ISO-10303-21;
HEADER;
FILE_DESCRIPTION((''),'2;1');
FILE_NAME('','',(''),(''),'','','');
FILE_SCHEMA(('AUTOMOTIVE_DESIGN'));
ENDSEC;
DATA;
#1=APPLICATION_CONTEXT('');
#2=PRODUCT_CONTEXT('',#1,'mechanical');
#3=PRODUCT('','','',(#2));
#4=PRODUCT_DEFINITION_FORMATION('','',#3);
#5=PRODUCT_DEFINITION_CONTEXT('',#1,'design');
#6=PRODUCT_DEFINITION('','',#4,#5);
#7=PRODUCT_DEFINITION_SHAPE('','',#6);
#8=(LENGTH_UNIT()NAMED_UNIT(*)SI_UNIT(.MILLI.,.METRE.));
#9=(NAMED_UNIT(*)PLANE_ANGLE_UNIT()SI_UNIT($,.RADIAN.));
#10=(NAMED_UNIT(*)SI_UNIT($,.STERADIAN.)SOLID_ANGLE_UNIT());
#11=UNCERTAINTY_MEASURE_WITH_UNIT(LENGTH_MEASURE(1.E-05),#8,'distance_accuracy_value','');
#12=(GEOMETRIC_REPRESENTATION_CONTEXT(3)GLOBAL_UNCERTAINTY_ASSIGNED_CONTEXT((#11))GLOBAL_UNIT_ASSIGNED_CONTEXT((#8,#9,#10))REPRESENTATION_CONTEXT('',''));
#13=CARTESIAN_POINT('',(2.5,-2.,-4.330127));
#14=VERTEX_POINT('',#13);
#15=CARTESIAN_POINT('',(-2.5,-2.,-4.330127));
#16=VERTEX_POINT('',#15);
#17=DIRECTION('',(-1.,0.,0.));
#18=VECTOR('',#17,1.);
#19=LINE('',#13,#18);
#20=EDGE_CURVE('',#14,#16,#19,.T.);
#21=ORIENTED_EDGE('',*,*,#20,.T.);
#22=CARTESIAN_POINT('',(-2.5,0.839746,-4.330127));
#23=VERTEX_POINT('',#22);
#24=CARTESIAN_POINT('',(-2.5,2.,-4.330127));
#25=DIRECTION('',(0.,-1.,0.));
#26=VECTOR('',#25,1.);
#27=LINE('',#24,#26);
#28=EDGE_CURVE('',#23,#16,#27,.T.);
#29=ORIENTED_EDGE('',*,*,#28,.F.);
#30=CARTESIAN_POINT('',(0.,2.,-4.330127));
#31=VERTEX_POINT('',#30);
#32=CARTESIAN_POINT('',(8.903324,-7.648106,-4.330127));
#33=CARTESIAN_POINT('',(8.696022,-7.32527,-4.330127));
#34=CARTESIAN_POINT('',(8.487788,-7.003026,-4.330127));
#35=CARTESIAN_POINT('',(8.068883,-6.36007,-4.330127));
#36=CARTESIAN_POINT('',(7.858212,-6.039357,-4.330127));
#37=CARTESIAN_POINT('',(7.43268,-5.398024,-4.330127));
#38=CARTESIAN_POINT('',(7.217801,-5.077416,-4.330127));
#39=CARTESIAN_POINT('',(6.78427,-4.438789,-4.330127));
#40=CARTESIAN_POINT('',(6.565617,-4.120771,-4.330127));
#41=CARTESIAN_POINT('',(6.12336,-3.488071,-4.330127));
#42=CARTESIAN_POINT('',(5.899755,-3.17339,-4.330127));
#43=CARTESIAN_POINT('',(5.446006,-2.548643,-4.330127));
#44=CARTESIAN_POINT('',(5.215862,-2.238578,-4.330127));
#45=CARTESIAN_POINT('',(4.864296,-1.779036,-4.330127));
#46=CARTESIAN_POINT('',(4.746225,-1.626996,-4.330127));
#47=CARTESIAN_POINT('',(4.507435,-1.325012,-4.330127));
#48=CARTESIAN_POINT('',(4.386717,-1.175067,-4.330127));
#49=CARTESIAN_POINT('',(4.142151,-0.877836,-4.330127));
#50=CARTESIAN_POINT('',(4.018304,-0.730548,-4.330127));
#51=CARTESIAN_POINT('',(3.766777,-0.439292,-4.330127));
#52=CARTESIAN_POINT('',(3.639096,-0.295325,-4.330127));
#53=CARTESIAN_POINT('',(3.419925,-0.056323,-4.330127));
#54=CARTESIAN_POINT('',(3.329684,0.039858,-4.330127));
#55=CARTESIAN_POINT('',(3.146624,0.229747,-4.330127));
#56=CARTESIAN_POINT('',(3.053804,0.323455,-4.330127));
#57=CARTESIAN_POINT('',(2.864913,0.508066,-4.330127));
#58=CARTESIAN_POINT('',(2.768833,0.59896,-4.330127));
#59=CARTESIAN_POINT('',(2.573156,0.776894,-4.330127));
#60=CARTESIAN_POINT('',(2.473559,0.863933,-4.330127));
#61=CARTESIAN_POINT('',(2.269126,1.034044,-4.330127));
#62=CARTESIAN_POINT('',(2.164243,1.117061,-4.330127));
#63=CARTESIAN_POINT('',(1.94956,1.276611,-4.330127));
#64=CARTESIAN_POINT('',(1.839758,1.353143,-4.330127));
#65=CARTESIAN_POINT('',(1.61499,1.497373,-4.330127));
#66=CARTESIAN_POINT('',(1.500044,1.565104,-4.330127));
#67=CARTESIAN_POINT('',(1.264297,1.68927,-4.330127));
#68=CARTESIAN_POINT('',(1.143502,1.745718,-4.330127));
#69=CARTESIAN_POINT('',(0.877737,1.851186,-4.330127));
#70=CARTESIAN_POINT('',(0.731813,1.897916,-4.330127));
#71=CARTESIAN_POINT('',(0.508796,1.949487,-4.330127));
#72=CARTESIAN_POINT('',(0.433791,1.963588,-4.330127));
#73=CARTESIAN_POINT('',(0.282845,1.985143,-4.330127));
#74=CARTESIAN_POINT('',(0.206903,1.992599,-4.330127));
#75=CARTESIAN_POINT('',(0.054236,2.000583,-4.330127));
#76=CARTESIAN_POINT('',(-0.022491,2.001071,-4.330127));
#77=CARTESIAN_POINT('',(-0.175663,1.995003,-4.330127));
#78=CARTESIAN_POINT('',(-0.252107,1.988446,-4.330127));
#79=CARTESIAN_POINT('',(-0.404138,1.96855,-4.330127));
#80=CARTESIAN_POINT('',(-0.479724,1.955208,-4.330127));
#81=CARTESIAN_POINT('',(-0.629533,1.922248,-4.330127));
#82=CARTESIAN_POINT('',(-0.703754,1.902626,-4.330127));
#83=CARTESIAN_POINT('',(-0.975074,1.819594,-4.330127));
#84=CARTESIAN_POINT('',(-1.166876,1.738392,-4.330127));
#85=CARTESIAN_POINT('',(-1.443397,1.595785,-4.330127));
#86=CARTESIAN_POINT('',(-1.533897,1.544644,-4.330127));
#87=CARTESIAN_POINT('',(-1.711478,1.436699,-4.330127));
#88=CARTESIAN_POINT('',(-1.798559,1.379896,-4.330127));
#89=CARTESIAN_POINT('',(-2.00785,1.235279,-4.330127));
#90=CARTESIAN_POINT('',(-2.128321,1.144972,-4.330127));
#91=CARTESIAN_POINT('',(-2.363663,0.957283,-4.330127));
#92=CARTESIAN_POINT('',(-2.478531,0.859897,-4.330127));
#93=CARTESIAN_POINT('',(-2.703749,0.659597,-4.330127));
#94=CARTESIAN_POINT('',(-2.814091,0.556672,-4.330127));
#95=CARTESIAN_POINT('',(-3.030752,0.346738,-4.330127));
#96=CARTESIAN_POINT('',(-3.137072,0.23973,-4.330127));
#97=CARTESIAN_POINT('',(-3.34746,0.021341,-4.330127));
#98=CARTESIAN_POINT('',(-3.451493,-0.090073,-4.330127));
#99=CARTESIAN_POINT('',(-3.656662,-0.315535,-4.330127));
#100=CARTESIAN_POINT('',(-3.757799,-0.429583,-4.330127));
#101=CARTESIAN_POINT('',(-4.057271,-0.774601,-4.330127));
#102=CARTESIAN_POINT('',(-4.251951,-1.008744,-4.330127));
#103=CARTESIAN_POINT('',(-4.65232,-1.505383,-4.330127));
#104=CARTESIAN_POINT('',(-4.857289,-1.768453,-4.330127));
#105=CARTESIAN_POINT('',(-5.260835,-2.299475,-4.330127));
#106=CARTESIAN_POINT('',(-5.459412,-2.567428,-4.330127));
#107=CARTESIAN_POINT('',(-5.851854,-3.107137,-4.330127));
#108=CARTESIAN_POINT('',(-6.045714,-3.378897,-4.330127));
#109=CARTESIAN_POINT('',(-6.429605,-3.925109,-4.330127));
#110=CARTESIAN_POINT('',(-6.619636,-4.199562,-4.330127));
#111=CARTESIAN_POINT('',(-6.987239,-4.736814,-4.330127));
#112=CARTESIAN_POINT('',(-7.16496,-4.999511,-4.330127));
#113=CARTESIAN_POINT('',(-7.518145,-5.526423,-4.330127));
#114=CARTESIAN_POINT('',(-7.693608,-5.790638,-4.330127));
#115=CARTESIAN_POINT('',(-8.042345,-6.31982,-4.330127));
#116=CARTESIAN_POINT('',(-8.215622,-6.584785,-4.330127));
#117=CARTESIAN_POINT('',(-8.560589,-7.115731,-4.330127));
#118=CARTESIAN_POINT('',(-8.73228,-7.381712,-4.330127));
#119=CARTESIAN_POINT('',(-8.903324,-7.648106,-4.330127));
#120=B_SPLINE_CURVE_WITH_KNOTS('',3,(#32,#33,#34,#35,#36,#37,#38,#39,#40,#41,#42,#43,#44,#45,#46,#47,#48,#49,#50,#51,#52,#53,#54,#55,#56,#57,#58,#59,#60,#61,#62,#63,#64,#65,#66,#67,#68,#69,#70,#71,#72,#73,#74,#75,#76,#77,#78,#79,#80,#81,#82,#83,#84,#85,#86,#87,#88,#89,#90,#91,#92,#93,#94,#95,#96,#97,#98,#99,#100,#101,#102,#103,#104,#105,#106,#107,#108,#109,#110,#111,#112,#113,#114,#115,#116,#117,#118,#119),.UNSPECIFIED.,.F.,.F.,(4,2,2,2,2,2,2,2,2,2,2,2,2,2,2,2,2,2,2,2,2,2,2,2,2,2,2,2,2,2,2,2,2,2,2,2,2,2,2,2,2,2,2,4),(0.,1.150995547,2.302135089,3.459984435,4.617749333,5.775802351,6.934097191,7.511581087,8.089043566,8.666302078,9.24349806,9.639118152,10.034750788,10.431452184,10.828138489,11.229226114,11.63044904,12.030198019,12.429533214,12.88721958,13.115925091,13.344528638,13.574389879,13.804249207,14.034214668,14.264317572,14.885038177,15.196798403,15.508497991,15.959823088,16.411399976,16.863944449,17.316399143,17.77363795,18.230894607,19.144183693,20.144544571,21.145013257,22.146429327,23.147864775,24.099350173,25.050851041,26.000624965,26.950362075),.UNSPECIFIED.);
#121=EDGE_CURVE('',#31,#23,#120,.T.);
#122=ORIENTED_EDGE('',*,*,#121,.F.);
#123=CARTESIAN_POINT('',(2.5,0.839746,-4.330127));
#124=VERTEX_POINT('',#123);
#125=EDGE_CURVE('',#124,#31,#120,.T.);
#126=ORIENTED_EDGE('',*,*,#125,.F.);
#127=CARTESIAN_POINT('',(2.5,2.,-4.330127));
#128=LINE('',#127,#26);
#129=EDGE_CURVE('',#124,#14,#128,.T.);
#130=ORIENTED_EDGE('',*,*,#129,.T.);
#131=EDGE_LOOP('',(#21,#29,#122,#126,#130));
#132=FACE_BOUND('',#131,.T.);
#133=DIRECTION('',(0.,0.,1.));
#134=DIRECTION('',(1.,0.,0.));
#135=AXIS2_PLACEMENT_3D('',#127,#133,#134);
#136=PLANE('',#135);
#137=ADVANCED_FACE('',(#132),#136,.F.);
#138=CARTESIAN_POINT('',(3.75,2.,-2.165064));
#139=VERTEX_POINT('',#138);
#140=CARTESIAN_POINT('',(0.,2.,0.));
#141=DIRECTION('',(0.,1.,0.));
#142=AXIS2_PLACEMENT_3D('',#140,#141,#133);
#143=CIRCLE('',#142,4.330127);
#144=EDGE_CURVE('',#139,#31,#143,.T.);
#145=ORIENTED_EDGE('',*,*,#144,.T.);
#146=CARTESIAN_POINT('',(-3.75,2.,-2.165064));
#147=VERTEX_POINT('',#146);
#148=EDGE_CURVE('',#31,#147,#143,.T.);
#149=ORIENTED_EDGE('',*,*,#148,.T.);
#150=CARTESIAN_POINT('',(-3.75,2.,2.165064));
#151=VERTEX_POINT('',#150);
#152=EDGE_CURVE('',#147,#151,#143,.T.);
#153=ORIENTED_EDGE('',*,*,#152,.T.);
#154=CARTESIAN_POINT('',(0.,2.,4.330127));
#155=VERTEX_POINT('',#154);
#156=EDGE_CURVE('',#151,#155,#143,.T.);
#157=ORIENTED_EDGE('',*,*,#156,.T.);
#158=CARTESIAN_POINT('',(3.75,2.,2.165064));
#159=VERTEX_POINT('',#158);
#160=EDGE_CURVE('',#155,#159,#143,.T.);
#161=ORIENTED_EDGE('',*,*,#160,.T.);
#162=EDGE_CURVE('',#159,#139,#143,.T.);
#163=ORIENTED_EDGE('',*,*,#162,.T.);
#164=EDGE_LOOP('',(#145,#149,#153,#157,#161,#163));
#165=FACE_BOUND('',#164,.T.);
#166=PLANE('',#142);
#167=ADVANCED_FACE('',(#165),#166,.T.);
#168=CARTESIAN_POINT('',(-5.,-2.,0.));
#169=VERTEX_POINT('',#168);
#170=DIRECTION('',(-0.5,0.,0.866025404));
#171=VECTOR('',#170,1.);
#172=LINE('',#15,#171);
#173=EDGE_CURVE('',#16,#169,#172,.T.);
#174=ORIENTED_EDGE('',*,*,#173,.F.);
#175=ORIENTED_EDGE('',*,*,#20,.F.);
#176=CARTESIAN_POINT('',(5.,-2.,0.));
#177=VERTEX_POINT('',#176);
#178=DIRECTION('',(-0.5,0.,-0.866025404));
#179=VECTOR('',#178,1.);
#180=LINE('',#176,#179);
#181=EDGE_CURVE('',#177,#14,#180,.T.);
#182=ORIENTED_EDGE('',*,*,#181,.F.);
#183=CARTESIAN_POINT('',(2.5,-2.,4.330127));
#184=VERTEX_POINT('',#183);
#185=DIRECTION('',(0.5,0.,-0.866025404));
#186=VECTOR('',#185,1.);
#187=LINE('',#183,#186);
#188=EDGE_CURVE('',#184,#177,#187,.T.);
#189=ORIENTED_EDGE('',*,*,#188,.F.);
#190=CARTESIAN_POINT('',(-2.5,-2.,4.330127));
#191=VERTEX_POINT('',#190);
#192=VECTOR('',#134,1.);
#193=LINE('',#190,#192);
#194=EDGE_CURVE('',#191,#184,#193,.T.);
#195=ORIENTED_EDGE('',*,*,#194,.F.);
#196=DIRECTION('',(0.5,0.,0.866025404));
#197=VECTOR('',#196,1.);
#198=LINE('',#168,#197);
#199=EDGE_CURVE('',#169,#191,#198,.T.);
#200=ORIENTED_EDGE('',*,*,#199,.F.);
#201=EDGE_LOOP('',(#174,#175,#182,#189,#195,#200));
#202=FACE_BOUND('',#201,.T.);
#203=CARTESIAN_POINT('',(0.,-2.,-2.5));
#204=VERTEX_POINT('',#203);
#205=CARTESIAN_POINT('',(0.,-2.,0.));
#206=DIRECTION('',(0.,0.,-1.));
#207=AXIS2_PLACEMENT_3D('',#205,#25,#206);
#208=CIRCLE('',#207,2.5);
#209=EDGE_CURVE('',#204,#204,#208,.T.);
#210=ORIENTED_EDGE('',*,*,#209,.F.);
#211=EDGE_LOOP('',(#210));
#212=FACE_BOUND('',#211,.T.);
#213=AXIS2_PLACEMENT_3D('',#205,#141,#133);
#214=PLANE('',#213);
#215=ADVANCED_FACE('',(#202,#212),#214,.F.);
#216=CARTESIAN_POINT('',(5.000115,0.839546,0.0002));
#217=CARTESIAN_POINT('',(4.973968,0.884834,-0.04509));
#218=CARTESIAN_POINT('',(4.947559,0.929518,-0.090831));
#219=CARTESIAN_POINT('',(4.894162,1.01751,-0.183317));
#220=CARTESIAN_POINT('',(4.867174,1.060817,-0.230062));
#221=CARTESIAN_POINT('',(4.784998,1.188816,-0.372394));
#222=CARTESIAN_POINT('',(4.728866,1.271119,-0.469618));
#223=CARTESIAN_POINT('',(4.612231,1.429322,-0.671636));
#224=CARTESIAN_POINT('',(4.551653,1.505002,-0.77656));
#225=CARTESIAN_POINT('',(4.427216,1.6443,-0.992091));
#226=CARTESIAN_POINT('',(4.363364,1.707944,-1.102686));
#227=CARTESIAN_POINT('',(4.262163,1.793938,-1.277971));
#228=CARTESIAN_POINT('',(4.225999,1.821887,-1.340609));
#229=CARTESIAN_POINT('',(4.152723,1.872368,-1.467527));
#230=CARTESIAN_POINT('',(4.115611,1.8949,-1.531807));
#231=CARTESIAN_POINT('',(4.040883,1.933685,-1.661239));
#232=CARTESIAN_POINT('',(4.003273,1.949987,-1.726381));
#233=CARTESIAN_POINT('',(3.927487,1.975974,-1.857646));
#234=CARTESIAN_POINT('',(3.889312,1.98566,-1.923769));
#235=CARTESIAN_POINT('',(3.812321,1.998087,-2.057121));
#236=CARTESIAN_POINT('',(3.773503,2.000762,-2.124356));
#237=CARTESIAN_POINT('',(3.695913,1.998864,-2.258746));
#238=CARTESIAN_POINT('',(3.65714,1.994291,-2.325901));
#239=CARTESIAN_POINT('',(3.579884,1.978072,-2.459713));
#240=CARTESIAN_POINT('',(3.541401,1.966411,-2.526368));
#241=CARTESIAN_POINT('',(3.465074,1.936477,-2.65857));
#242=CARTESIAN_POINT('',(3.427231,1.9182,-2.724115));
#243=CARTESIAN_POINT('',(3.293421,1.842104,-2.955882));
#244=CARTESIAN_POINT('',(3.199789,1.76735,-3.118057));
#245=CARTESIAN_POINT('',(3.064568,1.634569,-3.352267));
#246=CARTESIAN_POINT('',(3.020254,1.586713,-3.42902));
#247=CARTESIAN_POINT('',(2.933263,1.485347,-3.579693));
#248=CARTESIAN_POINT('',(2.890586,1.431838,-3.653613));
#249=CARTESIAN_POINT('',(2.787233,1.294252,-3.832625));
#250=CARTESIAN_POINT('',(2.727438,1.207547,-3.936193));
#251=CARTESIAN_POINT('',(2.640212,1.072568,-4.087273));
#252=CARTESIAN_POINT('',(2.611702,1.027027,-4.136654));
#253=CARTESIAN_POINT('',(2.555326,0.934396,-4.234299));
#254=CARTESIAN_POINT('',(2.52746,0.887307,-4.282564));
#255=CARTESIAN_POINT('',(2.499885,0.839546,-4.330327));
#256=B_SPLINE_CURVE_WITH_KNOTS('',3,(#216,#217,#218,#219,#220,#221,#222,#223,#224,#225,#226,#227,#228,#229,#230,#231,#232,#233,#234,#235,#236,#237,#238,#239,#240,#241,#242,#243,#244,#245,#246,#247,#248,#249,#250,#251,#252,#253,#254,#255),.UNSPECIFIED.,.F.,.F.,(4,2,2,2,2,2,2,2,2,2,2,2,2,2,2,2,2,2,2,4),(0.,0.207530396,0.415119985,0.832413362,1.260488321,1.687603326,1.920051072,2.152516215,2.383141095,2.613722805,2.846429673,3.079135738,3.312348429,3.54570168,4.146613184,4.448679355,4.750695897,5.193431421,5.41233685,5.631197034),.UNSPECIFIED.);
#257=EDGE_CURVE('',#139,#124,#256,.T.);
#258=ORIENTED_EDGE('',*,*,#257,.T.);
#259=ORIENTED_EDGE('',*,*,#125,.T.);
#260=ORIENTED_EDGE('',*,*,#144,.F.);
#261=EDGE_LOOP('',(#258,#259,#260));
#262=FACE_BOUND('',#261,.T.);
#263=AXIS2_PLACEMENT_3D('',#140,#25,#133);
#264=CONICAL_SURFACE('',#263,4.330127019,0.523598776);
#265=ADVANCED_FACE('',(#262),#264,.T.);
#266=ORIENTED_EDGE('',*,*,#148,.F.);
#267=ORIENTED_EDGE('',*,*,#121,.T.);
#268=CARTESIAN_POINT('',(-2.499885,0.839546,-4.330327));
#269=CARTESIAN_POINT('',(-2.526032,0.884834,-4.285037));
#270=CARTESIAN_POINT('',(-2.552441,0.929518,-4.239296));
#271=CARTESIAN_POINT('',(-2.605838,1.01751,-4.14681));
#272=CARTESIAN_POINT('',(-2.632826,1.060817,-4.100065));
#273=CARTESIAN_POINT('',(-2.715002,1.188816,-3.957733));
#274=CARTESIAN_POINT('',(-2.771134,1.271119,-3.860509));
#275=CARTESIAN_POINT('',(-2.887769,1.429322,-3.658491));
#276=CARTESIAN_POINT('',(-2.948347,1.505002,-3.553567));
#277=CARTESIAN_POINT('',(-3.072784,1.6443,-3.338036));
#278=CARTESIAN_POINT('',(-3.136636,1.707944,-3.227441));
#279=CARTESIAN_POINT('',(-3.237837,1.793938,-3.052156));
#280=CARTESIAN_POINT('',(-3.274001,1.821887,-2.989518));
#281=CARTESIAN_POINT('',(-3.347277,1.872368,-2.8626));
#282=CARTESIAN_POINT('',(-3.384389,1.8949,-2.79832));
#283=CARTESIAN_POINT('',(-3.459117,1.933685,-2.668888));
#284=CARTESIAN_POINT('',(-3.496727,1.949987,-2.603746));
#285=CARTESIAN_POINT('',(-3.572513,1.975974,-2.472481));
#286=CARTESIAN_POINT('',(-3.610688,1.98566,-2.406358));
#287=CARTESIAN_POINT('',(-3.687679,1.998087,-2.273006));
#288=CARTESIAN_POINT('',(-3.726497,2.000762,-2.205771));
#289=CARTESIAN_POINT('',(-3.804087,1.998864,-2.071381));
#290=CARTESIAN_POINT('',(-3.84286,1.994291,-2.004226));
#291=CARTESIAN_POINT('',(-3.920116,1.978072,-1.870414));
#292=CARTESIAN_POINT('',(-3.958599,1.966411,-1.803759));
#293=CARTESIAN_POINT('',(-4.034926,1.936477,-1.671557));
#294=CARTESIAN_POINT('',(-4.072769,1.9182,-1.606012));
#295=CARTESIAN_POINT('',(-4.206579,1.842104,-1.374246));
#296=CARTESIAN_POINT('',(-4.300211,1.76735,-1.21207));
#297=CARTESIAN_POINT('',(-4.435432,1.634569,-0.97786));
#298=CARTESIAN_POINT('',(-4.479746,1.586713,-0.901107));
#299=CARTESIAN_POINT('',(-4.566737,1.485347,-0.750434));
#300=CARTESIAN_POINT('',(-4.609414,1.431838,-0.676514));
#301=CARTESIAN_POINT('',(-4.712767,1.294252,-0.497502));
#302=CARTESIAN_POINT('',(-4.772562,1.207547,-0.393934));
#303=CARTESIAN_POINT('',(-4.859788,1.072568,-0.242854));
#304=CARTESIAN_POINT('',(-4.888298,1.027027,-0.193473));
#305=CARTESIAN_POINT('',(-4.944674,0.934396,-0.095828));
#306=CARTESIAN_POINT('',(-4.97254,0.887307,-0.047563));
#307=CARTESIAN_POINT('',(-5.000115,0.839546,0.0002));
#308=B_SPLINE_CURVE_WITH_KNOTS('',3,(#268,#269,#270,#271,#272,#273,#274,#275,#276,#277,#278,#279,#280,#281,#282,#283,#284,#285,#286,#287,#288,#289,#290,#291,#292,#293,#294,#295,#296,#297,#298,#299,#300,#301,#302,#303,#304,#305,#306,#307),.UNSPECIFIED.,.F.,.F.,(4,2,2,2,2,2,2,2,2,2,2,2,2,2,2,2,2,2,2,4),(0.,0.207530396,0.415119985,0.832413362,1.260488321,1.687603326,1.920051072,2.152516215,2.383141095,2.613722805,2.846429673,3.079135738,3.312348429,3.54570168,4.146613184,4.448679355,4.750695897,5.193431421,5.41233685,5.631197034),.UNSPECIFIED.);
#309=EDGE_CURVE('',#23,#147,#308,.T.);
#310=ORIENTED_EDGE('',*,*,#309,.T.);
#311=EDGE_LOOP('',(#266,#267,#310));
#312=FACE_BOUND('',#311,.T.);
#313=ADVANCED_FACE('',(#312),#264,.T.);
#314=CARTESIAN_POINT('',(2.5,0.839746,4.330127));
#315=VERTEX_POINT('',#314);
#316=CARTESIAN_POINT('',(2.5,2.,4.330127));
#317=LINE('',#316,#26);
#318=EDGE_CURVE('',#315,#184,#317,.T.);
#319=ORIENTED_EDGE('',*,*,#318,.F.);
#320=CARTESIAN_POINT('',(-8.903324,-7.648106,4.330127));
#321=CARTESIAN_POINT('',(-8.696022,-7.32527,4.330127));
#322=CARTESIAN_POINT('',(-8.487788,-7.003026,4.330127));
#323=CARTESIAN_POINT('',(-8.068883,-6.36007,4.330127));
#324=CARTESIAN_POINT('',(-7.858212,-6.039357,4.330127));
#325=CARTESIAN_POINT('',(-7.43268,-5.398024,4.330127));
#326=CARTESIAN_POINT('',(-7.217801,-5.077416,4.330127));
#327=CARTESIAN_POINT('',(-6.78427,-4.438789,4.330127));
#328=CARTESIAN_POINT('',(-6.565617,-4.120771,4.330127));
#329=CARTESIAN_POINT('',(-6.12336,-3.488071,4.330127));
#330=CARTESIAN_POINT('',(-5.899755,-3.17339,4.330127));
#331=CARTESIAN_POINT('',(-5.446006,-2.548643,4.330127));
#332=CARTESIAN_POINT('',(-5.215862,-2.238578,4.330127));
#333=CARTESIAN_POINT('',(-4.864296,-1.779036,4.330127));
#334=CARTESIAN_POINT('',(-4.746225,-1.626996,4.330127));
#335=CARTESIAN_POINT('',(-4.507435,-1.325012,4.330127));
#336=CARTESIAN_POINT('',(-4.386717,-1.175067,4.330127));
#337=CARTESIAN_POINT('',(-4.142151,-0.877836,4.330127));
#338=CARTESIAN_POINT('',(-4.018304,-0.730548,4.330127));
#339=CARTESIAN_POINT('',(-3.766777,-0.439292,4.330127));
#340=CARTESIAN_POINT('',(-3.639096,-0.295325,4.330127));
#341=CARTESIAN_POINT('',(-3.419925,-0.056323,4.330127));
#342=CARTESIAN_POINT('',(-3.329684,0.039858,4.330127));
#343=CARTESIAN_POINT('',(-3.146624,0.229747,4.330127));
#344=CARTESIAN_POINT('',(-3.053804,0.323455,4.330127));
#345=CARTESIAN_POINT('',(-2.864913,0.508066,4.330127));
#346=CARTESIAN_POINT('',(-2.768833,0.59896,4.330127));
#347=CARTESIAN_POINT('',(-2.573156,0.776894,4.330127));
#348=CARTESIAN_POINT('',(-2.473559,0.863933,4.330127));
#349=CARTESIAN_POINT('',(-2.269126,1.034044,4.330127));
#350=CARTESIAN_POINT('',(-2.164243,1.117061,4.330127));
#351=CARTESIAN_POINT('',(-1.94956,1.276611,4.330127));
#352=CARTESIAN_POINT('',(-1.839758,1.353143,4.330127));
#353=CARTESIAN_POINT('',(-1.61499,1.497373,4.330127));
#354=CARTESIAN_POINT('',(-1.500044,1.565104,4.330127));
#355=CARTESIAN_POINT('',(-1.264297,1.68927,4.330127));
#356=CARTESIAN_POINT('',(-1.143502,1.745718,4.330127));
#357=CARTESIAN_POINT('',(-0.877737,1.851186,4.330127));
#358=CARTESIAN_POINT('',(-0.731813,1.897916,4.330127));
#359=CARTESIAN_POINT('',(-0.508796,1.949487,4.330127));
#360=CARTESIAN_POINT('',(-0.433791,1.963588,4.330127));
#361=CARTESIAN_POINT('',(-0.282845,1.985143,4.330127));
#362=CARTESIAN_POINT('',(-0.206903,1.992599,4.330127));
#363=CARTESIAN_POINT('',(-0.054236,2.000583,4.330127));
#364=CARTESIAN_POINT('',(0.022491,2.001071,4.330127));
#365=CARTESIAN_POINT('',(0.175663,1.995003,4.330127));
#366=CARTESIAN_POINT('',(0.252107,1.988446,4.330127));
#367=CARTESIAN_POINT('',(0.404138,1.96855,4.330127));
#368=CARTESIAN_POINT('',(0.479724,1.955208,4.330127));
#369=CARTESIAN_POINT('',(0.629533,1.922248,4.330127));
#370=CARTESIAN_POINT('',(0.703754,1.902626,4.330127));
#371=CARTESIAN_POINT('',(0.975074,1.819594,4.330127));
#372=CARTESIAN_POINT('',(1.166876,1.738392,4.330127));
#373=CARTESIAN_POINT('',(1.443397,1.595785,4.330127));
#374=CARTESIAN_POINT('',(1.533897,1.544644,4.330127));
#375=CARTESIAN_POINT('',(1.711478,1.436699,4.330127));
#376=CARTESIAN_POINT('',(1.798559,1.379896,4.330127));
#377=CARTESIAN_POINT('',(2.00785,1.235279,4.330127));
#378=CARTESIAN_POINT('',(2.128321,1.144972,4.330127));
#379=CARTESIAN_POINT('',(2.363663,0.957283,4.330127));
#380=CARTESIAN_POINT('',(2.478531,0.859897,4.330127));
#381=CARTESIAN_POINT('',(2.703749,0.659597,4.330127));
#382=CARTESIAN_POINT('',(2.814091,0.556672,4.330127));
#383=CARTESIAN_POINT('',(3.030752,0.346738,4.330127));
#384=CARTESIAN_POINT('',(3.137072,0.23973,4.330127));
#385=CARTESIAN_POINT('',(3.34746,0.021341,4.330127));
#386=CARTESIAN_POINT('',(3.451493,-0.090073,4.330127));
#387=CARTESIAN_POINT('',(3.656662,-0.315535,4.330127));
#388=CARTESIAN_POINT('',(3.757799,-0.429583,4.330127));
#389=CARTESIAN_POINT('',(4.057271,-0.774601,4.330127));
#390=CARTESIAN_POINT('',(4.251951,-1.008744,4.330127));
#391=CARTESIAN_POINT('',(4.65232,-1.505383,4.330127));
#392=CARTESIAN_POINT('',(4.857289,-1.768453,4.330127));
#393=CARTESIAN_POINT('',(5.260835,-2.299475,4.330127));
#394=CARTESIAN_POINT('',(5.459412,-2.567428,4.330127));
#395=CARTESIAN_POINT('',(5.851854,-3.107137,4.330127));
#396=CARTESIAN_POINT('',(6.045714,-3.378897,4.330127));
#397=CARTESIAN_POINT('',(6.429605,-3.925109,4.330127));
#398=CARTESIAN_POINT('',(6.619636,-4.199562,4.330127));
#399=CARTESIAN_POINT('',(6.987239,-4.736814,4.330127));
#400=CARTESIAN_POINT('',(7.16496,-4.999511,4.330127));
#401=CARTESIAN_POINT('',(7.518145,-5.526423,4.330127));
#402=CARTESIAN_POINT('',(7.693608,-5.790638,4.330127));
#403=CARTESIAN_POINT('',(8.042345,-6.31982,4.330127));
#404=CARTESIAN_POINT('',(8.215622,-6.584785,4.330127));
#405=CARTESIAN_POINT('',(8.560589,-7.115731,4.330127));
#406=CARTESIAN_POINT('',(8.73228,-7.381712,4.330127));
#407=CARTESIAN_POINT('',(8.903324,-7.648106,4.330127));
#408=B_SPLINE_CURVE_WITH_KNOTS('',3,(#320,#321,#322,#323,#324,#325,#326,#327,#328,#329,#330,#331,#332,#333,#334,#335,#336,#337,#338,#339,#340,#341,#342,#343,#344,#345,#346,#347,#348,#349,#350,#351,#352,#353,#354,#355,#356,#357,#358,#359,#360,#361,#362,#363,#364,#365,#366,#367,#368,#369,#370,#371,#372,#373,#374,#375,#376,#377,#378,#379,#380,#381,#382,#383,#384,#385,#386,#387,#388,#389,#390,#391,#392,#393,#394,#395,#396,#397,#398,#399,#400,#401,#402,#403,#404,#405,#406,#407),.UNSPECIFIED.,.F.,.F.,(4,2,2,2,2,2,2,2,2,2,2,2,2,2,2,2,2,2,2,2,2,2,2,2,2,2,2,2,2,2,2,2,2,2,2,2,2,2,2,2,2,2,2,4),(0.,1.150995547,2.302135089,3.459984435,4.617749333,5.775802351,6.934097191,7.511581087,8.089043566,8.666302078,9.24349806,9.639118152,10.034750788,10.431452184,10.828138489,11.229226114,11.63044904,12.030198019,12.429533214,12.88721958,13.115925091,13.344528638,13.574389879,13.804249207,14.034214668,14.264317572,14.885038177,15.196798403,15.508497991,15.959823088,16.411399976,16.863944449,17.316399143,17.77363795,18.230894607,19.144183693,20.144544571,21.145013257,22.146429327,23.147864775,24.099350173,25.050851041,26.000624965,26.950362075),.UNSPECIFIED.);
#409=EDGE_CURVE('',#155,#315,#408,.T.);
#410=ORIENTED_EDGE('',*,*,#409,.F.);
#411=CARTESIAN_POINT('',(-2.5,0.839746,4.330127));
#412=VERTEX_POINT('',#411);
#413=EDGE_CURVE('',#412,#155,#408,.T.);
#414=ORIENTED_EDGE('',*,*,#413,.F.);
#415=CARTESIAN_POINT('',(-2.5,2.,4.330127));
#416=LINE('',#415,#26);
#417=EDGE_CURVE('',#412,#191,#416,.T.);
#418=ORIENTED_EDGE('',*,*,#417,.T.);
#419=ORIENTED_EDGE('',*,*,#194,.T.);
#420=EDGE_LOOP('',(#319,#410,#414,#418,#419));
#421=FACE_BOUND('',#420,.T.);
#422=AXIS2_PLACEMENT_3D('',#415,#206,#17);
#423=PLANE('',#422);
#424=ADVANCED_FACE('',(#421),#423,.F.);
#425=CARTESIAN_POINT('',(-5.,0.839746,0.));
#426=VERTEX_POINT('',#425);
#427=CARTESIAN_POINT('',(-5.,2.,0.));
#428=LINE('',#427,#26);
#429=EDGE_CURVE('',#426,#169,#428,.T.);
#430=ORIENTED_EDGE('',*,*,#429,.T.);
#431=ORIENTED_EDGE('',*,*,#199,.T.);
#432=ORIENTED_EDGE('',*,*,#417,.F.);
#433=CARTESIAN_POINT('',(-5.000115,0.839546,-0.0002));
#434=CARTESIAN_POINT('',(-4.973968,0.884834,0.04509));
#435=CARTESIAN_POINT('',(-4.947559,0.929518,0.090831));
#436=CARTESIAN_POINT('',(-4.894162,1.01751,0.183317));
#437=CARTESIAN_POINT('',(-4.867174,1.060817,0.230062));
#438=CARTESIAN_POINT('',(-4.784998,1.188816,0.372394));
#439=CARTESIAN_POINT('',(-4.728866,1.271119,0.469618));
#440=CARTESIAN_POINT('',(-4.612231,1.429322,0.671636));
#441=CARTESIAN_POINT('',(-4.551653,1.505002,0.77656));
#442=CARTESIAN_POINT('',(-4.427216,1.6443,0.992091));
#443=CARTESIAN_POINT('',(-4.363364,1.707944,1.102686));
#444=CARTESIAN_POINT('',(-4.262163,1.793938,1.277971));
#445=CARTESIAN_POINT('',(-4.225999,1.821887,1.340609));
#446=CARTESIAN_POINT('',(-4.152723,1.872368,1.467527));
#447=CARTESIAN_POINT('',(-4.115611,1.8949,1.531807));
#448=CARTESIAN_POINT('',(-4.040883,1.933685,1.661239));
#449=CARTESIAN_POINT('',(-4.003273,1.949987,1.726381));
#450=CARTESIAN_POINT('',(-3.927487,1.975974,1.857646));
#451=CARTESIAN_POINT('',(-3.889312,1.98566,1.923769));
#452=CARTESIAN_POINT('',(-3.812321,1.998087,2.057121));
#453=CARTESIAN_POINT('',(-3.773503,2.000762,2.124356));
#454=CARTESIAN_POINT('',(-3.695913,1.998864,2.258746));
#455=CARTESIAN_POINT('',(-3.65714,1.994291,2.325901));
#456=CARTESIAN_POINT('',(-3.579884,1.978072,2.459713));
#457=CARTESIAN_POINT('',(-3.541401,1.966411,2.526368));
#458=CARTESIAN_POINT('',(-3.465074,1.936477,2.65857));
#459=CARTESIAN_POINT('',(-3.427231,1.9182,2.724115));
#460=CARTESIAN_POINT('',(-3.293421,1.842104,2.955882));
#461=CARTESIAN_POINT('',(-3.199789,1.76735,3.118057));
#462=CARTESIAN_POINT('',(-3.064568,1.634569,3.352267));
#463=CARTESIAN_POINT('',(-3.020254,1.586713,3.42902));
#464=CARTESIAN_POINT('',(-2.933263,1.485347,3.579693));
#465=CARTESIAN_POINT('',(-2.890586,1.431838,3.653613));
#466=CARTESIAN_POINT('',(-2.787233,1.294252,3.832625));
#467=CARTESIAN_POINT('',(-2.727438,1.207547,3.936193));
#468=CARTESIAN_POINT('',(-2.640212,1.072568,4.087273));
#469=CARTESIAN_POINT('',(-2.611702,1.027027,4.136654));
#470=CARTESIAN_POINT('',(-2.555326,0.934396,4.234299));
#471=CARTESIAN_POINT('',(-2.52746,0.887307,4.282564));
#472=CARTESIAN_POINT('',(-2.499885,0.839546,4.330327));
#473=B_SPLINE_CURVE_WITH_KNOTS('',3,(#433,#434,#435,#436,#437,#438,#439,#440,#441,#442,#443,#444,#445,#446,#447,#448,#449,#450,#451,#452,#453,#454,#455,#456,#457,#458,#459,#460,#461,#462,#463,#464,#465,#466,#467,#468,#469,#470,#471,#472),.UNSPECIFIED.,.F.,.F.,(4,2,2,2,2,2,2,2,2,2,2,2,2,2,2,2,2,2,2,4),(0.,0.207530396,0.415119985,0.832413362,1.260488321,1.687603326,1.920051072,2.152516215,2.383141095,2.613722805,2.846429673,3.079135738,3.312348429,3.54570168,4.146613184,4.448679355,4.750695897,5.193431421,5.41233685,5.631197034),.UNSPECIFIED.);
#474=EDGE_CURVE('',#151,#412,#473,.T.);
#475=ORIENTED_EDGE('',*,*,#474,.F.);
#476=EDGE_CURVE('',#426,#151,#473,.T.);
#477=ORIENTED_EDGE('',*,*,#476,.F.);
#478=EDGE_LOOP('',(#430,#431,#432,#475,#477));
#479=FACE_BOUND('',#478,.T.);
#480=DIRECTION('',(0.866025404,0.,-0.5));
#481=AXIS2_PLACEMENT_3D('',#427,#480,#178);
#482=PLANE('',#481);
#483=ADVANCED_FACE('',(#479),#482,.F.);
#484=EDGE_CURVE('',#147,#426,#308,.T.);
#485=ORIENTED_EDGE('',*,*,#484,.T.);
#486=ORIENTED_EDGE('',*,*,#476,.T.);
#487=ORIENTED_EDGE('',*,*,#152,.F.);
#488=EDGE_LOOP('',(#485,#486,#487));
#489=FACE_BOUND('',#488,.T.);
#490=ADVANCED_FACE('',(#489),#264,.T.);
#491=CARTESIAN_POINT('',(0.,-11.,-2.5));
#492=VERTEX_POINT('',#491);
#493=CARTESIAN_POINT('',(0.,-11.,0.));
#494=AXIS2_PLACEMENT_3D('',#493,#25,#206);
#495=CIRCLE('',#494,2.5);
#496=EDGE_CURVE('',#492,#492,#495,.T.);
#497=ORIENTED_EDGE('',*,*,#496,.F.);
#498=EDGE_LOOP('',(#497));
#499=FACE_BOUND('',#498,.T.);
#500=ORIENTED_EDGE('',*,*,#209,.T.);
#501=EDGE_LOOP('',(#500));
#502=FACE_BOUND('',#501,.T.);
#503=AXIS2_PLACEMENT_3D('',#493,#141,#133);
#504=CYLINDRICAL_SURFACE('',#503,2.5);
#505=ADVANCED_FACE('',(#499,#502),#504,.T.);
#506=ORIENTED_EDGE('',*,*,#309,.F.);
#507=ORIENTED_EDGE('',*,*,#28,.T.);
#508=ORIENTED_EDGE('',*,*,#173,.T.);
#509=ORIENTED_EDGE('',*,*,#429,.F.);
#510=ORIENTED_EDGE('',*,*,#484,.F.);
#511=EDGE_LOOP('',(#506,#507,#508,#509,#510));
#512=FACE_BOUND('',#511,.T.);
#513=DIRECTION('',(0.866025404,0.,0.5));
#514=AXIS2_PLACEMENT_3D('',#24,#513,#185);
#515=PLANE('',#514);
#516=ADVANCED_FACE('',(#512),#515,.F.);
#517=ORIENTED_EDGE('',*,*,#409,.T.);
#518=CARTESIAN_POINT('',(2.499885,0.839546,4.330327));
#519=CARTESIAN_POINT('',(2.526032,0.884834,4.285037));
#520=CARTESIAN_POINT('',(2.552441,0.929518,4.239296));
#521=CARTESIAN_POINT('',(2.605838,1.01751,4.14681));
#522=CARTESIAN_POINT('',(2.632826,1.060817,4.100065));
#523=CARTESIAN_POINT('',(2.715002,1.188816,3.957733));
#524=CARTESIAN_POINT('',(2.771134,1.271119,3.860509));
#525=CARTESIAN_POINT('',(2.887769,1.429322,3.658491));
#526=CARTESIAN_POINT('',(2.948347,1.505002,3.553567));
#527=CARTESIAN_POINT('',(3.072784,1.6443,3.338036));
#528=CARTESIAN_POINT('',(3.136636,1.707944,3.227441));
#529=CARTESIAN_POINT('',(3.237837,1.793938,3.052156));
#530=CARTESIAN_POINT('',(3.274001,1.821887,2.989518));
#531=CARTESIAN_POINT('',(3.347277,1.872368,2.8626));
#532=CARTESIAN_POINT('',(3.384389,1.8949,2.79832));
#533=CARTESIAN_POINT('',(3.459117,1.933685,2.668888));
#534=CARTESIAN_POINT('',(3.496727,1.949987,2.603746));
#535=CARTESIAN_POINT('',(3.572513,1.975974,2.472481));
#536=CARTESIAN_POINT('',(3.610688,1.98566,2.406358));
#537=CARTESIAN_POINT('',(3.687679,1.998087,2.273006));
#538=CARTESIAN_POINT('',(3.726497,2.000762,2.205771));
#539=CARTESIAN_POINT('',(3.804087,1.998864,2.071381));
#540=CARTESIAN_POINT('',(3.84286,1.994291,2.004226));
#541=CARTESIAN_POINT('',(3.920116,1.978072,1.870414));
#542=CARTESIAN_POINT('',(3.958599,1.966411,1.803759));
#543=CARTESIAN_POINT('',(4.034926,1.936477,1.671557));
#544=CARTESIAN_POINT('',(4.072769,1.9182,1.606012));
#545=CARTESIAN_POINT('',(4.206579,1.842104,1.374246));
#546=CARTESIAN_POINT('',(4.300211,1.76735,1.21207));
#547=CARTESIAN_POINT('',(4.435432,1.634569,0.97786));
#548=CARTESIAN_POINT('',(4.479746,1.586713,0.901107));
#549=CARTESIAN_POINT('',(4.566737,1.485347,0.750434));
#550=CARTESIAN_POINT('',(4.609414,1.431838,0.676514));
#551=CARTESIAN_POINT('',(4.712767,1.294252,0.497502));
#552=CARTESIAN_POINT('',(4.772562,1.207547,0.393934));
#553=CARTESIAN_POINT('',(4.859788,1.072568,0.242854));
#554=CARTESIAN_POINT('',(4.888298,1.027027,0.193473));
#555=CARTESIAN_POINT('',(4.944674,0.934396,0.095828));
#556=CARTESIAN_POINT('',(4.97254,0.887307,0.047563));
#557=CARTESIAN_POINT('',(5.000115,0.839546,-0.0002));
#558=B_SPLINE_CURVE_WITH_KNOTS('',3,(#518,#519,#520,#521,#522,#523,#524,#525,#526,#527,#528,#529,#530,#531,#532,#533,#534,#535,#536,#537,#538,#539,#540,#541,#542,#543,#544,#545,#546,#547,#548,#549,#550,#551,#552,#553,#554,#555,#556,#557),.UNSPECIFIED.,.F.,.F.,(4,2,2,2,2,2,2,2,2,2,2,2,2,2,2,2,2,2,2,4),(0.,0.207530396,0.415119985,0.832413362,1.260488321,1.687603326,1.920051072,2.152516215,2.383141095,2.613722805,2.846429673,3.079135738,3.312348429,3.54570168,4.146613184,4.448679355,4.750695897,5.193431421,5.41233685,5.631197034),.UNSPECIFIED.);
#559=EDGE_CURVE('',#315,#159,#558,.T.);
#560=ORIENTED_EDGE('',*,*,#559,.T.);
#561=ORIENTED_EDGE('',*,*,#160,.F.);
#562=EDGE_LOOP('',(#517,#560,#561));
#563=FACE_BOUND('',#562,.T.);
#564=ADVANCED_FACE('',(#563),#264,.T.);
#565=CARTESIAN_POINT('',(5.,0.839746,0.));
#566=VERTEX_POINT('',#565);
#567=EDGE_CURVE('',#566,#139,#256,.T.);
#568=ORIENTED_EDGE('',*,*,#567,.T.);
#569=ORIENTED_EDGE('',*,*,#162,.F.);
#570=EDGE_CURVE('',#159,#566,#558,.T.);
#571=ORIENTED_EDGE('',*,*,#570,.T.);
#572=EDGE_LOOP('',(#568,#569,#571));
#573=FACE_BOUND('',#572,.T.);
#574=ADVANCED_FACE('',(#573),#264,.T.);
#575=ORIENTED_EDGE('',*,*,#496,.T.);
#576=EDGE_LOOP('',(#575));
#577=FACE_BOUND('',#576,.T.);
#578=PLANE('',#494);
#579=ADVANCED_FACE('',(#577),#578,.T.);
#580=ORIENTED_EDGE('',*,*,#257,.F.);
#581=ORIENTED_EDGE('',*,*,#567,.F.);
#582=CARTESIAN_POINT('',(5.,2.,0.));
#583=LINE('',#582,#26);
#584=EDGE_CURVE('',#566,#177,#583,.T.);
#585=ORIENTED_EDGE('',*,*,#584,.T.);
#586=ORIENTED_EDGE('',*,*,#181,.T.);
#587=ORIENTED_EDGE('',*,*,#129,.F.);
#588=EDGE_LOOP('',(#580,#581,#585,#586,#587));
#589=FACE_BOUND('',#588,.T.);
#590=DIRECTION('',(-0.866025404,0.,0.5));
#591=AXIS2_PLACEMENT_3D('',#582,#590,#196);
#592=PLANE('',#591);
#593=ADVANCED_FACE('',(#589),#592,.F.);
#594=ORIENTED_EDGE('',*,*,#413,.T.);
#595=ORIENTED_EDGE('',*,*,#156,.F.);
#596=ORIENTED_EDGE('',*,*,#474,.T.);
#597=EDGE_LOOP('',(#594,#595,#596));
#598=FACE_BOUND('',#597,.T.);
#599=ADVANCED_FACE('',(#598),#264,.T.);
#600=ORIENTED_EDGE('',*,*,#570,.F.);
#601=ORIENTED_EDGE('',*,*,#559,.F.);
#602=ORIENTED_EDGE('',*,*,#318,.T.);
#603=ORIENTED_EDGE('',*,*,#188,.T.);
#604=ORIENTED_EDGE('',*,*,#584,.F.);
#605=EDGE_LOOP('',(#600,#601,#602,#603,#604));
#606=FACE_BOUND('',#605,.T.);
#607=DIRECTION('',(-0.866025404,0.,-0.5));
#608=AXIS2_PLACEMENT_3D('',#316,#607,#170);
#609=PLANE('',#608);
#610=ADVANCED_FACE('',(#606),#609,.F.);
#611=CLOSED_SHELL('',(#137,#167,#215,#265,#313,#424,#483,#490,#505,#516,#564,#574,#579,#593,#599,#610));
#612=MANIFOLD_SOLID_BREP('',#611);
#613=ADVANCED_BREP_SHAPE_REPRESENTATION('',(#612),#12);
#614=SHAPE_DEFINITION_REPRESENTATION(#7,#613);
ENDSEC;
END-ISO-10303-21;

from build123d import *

# Parameters (mm, degrees)
BOSS_EXTRUDE1_DEPTH = 2
SKETCH2_OUTSIDE_W   = 24.844
SKETCH2_OUTSIDE_H   = 23.504
SKETCH2_OUTSIDE_R   = 4.330127019
CUT_EXTRUDE2_DEPTH  = 8.729812417
CUT_EXTRUDE2_DRAFT  = -30
SKETCH3_R           = 2.5
BOSS_EXTRUDE2_DEPTH = 9


with BuildPart() as part:
    # Sketch1 → Boss-Extrude1 (new, symmetric)
    with BuildSketch(Plane(origin=(0, 0, 0), x_dir=(1, 0, 0), z_dir=(0, 1, 0))):
        Polygon((5, 0), (2.5, 4.330127019), (-2.5, 4.330127019), (-5, 0), (-2.5, -4.330127019), (2.5, -4.330127019), align=None)
    extrude(amount=BOSS_EXTRUDE1_DEPTH, both=True)


with BuildPart() as cut_extrude2_tool:
    # Sketch2 outside → Cut-Extrude2 (with draft: the straight prism first)
    with BuildSketch(Plane(origin=(0, 2, 0), x_dir=(1, 0, 0), z_dir=(0, 1, 0))):
        Rectangle(SKETCH2_OUTSIDE_W, SKETCH2_OUTSIDE_H)
        Circle(SKETCH2_OUTSIDE_R, mode=Mode.SUBTRACT)
    extrude(amount=-CUT_EXTRUDE2_DEPTH)
    # Cut-Extrude2: the draft: its side faces are tilted about the plane it starts from
    cut_extrude2_sides = [cut_extrude2_tool.faces().sort_by_distance(p)[0] for p in [
        (0, -2.364906208, 11.752),
        (12.422, -2.364906208, 0),
        (0, -2.364906208, -11.752),
        (-12.422, -2.364906208, 0),
        (-4.330127019, -2.364906208, 0),
    ]]
    draft(cut_extrude2_sides, Plane(origin=(0, 2, 0), x_dir=(1, 0, 0), z_dir=(0, 1, 0)), CUT_EXTRUDE2_DRAFT)


with BuildPart() as part_1:
    add(part.part)

    # Cut-Extrude2: cut by cut_extrude2_tool
    add(cut_extrude2_tool.part, mode=Mode.SUBTRACT)

    # Sketch3 → Boss-Extrude2 (add)
    with BuildSketch(Plane.XZ.offset(2)):
        with Locations(Location((0, 0, 0), (0, 0, 270))):
            Circle(SKETCH3_R)
    extrude(amount=BOSS_EXTRUDE2_DEPTH)


solid = part_1.part
